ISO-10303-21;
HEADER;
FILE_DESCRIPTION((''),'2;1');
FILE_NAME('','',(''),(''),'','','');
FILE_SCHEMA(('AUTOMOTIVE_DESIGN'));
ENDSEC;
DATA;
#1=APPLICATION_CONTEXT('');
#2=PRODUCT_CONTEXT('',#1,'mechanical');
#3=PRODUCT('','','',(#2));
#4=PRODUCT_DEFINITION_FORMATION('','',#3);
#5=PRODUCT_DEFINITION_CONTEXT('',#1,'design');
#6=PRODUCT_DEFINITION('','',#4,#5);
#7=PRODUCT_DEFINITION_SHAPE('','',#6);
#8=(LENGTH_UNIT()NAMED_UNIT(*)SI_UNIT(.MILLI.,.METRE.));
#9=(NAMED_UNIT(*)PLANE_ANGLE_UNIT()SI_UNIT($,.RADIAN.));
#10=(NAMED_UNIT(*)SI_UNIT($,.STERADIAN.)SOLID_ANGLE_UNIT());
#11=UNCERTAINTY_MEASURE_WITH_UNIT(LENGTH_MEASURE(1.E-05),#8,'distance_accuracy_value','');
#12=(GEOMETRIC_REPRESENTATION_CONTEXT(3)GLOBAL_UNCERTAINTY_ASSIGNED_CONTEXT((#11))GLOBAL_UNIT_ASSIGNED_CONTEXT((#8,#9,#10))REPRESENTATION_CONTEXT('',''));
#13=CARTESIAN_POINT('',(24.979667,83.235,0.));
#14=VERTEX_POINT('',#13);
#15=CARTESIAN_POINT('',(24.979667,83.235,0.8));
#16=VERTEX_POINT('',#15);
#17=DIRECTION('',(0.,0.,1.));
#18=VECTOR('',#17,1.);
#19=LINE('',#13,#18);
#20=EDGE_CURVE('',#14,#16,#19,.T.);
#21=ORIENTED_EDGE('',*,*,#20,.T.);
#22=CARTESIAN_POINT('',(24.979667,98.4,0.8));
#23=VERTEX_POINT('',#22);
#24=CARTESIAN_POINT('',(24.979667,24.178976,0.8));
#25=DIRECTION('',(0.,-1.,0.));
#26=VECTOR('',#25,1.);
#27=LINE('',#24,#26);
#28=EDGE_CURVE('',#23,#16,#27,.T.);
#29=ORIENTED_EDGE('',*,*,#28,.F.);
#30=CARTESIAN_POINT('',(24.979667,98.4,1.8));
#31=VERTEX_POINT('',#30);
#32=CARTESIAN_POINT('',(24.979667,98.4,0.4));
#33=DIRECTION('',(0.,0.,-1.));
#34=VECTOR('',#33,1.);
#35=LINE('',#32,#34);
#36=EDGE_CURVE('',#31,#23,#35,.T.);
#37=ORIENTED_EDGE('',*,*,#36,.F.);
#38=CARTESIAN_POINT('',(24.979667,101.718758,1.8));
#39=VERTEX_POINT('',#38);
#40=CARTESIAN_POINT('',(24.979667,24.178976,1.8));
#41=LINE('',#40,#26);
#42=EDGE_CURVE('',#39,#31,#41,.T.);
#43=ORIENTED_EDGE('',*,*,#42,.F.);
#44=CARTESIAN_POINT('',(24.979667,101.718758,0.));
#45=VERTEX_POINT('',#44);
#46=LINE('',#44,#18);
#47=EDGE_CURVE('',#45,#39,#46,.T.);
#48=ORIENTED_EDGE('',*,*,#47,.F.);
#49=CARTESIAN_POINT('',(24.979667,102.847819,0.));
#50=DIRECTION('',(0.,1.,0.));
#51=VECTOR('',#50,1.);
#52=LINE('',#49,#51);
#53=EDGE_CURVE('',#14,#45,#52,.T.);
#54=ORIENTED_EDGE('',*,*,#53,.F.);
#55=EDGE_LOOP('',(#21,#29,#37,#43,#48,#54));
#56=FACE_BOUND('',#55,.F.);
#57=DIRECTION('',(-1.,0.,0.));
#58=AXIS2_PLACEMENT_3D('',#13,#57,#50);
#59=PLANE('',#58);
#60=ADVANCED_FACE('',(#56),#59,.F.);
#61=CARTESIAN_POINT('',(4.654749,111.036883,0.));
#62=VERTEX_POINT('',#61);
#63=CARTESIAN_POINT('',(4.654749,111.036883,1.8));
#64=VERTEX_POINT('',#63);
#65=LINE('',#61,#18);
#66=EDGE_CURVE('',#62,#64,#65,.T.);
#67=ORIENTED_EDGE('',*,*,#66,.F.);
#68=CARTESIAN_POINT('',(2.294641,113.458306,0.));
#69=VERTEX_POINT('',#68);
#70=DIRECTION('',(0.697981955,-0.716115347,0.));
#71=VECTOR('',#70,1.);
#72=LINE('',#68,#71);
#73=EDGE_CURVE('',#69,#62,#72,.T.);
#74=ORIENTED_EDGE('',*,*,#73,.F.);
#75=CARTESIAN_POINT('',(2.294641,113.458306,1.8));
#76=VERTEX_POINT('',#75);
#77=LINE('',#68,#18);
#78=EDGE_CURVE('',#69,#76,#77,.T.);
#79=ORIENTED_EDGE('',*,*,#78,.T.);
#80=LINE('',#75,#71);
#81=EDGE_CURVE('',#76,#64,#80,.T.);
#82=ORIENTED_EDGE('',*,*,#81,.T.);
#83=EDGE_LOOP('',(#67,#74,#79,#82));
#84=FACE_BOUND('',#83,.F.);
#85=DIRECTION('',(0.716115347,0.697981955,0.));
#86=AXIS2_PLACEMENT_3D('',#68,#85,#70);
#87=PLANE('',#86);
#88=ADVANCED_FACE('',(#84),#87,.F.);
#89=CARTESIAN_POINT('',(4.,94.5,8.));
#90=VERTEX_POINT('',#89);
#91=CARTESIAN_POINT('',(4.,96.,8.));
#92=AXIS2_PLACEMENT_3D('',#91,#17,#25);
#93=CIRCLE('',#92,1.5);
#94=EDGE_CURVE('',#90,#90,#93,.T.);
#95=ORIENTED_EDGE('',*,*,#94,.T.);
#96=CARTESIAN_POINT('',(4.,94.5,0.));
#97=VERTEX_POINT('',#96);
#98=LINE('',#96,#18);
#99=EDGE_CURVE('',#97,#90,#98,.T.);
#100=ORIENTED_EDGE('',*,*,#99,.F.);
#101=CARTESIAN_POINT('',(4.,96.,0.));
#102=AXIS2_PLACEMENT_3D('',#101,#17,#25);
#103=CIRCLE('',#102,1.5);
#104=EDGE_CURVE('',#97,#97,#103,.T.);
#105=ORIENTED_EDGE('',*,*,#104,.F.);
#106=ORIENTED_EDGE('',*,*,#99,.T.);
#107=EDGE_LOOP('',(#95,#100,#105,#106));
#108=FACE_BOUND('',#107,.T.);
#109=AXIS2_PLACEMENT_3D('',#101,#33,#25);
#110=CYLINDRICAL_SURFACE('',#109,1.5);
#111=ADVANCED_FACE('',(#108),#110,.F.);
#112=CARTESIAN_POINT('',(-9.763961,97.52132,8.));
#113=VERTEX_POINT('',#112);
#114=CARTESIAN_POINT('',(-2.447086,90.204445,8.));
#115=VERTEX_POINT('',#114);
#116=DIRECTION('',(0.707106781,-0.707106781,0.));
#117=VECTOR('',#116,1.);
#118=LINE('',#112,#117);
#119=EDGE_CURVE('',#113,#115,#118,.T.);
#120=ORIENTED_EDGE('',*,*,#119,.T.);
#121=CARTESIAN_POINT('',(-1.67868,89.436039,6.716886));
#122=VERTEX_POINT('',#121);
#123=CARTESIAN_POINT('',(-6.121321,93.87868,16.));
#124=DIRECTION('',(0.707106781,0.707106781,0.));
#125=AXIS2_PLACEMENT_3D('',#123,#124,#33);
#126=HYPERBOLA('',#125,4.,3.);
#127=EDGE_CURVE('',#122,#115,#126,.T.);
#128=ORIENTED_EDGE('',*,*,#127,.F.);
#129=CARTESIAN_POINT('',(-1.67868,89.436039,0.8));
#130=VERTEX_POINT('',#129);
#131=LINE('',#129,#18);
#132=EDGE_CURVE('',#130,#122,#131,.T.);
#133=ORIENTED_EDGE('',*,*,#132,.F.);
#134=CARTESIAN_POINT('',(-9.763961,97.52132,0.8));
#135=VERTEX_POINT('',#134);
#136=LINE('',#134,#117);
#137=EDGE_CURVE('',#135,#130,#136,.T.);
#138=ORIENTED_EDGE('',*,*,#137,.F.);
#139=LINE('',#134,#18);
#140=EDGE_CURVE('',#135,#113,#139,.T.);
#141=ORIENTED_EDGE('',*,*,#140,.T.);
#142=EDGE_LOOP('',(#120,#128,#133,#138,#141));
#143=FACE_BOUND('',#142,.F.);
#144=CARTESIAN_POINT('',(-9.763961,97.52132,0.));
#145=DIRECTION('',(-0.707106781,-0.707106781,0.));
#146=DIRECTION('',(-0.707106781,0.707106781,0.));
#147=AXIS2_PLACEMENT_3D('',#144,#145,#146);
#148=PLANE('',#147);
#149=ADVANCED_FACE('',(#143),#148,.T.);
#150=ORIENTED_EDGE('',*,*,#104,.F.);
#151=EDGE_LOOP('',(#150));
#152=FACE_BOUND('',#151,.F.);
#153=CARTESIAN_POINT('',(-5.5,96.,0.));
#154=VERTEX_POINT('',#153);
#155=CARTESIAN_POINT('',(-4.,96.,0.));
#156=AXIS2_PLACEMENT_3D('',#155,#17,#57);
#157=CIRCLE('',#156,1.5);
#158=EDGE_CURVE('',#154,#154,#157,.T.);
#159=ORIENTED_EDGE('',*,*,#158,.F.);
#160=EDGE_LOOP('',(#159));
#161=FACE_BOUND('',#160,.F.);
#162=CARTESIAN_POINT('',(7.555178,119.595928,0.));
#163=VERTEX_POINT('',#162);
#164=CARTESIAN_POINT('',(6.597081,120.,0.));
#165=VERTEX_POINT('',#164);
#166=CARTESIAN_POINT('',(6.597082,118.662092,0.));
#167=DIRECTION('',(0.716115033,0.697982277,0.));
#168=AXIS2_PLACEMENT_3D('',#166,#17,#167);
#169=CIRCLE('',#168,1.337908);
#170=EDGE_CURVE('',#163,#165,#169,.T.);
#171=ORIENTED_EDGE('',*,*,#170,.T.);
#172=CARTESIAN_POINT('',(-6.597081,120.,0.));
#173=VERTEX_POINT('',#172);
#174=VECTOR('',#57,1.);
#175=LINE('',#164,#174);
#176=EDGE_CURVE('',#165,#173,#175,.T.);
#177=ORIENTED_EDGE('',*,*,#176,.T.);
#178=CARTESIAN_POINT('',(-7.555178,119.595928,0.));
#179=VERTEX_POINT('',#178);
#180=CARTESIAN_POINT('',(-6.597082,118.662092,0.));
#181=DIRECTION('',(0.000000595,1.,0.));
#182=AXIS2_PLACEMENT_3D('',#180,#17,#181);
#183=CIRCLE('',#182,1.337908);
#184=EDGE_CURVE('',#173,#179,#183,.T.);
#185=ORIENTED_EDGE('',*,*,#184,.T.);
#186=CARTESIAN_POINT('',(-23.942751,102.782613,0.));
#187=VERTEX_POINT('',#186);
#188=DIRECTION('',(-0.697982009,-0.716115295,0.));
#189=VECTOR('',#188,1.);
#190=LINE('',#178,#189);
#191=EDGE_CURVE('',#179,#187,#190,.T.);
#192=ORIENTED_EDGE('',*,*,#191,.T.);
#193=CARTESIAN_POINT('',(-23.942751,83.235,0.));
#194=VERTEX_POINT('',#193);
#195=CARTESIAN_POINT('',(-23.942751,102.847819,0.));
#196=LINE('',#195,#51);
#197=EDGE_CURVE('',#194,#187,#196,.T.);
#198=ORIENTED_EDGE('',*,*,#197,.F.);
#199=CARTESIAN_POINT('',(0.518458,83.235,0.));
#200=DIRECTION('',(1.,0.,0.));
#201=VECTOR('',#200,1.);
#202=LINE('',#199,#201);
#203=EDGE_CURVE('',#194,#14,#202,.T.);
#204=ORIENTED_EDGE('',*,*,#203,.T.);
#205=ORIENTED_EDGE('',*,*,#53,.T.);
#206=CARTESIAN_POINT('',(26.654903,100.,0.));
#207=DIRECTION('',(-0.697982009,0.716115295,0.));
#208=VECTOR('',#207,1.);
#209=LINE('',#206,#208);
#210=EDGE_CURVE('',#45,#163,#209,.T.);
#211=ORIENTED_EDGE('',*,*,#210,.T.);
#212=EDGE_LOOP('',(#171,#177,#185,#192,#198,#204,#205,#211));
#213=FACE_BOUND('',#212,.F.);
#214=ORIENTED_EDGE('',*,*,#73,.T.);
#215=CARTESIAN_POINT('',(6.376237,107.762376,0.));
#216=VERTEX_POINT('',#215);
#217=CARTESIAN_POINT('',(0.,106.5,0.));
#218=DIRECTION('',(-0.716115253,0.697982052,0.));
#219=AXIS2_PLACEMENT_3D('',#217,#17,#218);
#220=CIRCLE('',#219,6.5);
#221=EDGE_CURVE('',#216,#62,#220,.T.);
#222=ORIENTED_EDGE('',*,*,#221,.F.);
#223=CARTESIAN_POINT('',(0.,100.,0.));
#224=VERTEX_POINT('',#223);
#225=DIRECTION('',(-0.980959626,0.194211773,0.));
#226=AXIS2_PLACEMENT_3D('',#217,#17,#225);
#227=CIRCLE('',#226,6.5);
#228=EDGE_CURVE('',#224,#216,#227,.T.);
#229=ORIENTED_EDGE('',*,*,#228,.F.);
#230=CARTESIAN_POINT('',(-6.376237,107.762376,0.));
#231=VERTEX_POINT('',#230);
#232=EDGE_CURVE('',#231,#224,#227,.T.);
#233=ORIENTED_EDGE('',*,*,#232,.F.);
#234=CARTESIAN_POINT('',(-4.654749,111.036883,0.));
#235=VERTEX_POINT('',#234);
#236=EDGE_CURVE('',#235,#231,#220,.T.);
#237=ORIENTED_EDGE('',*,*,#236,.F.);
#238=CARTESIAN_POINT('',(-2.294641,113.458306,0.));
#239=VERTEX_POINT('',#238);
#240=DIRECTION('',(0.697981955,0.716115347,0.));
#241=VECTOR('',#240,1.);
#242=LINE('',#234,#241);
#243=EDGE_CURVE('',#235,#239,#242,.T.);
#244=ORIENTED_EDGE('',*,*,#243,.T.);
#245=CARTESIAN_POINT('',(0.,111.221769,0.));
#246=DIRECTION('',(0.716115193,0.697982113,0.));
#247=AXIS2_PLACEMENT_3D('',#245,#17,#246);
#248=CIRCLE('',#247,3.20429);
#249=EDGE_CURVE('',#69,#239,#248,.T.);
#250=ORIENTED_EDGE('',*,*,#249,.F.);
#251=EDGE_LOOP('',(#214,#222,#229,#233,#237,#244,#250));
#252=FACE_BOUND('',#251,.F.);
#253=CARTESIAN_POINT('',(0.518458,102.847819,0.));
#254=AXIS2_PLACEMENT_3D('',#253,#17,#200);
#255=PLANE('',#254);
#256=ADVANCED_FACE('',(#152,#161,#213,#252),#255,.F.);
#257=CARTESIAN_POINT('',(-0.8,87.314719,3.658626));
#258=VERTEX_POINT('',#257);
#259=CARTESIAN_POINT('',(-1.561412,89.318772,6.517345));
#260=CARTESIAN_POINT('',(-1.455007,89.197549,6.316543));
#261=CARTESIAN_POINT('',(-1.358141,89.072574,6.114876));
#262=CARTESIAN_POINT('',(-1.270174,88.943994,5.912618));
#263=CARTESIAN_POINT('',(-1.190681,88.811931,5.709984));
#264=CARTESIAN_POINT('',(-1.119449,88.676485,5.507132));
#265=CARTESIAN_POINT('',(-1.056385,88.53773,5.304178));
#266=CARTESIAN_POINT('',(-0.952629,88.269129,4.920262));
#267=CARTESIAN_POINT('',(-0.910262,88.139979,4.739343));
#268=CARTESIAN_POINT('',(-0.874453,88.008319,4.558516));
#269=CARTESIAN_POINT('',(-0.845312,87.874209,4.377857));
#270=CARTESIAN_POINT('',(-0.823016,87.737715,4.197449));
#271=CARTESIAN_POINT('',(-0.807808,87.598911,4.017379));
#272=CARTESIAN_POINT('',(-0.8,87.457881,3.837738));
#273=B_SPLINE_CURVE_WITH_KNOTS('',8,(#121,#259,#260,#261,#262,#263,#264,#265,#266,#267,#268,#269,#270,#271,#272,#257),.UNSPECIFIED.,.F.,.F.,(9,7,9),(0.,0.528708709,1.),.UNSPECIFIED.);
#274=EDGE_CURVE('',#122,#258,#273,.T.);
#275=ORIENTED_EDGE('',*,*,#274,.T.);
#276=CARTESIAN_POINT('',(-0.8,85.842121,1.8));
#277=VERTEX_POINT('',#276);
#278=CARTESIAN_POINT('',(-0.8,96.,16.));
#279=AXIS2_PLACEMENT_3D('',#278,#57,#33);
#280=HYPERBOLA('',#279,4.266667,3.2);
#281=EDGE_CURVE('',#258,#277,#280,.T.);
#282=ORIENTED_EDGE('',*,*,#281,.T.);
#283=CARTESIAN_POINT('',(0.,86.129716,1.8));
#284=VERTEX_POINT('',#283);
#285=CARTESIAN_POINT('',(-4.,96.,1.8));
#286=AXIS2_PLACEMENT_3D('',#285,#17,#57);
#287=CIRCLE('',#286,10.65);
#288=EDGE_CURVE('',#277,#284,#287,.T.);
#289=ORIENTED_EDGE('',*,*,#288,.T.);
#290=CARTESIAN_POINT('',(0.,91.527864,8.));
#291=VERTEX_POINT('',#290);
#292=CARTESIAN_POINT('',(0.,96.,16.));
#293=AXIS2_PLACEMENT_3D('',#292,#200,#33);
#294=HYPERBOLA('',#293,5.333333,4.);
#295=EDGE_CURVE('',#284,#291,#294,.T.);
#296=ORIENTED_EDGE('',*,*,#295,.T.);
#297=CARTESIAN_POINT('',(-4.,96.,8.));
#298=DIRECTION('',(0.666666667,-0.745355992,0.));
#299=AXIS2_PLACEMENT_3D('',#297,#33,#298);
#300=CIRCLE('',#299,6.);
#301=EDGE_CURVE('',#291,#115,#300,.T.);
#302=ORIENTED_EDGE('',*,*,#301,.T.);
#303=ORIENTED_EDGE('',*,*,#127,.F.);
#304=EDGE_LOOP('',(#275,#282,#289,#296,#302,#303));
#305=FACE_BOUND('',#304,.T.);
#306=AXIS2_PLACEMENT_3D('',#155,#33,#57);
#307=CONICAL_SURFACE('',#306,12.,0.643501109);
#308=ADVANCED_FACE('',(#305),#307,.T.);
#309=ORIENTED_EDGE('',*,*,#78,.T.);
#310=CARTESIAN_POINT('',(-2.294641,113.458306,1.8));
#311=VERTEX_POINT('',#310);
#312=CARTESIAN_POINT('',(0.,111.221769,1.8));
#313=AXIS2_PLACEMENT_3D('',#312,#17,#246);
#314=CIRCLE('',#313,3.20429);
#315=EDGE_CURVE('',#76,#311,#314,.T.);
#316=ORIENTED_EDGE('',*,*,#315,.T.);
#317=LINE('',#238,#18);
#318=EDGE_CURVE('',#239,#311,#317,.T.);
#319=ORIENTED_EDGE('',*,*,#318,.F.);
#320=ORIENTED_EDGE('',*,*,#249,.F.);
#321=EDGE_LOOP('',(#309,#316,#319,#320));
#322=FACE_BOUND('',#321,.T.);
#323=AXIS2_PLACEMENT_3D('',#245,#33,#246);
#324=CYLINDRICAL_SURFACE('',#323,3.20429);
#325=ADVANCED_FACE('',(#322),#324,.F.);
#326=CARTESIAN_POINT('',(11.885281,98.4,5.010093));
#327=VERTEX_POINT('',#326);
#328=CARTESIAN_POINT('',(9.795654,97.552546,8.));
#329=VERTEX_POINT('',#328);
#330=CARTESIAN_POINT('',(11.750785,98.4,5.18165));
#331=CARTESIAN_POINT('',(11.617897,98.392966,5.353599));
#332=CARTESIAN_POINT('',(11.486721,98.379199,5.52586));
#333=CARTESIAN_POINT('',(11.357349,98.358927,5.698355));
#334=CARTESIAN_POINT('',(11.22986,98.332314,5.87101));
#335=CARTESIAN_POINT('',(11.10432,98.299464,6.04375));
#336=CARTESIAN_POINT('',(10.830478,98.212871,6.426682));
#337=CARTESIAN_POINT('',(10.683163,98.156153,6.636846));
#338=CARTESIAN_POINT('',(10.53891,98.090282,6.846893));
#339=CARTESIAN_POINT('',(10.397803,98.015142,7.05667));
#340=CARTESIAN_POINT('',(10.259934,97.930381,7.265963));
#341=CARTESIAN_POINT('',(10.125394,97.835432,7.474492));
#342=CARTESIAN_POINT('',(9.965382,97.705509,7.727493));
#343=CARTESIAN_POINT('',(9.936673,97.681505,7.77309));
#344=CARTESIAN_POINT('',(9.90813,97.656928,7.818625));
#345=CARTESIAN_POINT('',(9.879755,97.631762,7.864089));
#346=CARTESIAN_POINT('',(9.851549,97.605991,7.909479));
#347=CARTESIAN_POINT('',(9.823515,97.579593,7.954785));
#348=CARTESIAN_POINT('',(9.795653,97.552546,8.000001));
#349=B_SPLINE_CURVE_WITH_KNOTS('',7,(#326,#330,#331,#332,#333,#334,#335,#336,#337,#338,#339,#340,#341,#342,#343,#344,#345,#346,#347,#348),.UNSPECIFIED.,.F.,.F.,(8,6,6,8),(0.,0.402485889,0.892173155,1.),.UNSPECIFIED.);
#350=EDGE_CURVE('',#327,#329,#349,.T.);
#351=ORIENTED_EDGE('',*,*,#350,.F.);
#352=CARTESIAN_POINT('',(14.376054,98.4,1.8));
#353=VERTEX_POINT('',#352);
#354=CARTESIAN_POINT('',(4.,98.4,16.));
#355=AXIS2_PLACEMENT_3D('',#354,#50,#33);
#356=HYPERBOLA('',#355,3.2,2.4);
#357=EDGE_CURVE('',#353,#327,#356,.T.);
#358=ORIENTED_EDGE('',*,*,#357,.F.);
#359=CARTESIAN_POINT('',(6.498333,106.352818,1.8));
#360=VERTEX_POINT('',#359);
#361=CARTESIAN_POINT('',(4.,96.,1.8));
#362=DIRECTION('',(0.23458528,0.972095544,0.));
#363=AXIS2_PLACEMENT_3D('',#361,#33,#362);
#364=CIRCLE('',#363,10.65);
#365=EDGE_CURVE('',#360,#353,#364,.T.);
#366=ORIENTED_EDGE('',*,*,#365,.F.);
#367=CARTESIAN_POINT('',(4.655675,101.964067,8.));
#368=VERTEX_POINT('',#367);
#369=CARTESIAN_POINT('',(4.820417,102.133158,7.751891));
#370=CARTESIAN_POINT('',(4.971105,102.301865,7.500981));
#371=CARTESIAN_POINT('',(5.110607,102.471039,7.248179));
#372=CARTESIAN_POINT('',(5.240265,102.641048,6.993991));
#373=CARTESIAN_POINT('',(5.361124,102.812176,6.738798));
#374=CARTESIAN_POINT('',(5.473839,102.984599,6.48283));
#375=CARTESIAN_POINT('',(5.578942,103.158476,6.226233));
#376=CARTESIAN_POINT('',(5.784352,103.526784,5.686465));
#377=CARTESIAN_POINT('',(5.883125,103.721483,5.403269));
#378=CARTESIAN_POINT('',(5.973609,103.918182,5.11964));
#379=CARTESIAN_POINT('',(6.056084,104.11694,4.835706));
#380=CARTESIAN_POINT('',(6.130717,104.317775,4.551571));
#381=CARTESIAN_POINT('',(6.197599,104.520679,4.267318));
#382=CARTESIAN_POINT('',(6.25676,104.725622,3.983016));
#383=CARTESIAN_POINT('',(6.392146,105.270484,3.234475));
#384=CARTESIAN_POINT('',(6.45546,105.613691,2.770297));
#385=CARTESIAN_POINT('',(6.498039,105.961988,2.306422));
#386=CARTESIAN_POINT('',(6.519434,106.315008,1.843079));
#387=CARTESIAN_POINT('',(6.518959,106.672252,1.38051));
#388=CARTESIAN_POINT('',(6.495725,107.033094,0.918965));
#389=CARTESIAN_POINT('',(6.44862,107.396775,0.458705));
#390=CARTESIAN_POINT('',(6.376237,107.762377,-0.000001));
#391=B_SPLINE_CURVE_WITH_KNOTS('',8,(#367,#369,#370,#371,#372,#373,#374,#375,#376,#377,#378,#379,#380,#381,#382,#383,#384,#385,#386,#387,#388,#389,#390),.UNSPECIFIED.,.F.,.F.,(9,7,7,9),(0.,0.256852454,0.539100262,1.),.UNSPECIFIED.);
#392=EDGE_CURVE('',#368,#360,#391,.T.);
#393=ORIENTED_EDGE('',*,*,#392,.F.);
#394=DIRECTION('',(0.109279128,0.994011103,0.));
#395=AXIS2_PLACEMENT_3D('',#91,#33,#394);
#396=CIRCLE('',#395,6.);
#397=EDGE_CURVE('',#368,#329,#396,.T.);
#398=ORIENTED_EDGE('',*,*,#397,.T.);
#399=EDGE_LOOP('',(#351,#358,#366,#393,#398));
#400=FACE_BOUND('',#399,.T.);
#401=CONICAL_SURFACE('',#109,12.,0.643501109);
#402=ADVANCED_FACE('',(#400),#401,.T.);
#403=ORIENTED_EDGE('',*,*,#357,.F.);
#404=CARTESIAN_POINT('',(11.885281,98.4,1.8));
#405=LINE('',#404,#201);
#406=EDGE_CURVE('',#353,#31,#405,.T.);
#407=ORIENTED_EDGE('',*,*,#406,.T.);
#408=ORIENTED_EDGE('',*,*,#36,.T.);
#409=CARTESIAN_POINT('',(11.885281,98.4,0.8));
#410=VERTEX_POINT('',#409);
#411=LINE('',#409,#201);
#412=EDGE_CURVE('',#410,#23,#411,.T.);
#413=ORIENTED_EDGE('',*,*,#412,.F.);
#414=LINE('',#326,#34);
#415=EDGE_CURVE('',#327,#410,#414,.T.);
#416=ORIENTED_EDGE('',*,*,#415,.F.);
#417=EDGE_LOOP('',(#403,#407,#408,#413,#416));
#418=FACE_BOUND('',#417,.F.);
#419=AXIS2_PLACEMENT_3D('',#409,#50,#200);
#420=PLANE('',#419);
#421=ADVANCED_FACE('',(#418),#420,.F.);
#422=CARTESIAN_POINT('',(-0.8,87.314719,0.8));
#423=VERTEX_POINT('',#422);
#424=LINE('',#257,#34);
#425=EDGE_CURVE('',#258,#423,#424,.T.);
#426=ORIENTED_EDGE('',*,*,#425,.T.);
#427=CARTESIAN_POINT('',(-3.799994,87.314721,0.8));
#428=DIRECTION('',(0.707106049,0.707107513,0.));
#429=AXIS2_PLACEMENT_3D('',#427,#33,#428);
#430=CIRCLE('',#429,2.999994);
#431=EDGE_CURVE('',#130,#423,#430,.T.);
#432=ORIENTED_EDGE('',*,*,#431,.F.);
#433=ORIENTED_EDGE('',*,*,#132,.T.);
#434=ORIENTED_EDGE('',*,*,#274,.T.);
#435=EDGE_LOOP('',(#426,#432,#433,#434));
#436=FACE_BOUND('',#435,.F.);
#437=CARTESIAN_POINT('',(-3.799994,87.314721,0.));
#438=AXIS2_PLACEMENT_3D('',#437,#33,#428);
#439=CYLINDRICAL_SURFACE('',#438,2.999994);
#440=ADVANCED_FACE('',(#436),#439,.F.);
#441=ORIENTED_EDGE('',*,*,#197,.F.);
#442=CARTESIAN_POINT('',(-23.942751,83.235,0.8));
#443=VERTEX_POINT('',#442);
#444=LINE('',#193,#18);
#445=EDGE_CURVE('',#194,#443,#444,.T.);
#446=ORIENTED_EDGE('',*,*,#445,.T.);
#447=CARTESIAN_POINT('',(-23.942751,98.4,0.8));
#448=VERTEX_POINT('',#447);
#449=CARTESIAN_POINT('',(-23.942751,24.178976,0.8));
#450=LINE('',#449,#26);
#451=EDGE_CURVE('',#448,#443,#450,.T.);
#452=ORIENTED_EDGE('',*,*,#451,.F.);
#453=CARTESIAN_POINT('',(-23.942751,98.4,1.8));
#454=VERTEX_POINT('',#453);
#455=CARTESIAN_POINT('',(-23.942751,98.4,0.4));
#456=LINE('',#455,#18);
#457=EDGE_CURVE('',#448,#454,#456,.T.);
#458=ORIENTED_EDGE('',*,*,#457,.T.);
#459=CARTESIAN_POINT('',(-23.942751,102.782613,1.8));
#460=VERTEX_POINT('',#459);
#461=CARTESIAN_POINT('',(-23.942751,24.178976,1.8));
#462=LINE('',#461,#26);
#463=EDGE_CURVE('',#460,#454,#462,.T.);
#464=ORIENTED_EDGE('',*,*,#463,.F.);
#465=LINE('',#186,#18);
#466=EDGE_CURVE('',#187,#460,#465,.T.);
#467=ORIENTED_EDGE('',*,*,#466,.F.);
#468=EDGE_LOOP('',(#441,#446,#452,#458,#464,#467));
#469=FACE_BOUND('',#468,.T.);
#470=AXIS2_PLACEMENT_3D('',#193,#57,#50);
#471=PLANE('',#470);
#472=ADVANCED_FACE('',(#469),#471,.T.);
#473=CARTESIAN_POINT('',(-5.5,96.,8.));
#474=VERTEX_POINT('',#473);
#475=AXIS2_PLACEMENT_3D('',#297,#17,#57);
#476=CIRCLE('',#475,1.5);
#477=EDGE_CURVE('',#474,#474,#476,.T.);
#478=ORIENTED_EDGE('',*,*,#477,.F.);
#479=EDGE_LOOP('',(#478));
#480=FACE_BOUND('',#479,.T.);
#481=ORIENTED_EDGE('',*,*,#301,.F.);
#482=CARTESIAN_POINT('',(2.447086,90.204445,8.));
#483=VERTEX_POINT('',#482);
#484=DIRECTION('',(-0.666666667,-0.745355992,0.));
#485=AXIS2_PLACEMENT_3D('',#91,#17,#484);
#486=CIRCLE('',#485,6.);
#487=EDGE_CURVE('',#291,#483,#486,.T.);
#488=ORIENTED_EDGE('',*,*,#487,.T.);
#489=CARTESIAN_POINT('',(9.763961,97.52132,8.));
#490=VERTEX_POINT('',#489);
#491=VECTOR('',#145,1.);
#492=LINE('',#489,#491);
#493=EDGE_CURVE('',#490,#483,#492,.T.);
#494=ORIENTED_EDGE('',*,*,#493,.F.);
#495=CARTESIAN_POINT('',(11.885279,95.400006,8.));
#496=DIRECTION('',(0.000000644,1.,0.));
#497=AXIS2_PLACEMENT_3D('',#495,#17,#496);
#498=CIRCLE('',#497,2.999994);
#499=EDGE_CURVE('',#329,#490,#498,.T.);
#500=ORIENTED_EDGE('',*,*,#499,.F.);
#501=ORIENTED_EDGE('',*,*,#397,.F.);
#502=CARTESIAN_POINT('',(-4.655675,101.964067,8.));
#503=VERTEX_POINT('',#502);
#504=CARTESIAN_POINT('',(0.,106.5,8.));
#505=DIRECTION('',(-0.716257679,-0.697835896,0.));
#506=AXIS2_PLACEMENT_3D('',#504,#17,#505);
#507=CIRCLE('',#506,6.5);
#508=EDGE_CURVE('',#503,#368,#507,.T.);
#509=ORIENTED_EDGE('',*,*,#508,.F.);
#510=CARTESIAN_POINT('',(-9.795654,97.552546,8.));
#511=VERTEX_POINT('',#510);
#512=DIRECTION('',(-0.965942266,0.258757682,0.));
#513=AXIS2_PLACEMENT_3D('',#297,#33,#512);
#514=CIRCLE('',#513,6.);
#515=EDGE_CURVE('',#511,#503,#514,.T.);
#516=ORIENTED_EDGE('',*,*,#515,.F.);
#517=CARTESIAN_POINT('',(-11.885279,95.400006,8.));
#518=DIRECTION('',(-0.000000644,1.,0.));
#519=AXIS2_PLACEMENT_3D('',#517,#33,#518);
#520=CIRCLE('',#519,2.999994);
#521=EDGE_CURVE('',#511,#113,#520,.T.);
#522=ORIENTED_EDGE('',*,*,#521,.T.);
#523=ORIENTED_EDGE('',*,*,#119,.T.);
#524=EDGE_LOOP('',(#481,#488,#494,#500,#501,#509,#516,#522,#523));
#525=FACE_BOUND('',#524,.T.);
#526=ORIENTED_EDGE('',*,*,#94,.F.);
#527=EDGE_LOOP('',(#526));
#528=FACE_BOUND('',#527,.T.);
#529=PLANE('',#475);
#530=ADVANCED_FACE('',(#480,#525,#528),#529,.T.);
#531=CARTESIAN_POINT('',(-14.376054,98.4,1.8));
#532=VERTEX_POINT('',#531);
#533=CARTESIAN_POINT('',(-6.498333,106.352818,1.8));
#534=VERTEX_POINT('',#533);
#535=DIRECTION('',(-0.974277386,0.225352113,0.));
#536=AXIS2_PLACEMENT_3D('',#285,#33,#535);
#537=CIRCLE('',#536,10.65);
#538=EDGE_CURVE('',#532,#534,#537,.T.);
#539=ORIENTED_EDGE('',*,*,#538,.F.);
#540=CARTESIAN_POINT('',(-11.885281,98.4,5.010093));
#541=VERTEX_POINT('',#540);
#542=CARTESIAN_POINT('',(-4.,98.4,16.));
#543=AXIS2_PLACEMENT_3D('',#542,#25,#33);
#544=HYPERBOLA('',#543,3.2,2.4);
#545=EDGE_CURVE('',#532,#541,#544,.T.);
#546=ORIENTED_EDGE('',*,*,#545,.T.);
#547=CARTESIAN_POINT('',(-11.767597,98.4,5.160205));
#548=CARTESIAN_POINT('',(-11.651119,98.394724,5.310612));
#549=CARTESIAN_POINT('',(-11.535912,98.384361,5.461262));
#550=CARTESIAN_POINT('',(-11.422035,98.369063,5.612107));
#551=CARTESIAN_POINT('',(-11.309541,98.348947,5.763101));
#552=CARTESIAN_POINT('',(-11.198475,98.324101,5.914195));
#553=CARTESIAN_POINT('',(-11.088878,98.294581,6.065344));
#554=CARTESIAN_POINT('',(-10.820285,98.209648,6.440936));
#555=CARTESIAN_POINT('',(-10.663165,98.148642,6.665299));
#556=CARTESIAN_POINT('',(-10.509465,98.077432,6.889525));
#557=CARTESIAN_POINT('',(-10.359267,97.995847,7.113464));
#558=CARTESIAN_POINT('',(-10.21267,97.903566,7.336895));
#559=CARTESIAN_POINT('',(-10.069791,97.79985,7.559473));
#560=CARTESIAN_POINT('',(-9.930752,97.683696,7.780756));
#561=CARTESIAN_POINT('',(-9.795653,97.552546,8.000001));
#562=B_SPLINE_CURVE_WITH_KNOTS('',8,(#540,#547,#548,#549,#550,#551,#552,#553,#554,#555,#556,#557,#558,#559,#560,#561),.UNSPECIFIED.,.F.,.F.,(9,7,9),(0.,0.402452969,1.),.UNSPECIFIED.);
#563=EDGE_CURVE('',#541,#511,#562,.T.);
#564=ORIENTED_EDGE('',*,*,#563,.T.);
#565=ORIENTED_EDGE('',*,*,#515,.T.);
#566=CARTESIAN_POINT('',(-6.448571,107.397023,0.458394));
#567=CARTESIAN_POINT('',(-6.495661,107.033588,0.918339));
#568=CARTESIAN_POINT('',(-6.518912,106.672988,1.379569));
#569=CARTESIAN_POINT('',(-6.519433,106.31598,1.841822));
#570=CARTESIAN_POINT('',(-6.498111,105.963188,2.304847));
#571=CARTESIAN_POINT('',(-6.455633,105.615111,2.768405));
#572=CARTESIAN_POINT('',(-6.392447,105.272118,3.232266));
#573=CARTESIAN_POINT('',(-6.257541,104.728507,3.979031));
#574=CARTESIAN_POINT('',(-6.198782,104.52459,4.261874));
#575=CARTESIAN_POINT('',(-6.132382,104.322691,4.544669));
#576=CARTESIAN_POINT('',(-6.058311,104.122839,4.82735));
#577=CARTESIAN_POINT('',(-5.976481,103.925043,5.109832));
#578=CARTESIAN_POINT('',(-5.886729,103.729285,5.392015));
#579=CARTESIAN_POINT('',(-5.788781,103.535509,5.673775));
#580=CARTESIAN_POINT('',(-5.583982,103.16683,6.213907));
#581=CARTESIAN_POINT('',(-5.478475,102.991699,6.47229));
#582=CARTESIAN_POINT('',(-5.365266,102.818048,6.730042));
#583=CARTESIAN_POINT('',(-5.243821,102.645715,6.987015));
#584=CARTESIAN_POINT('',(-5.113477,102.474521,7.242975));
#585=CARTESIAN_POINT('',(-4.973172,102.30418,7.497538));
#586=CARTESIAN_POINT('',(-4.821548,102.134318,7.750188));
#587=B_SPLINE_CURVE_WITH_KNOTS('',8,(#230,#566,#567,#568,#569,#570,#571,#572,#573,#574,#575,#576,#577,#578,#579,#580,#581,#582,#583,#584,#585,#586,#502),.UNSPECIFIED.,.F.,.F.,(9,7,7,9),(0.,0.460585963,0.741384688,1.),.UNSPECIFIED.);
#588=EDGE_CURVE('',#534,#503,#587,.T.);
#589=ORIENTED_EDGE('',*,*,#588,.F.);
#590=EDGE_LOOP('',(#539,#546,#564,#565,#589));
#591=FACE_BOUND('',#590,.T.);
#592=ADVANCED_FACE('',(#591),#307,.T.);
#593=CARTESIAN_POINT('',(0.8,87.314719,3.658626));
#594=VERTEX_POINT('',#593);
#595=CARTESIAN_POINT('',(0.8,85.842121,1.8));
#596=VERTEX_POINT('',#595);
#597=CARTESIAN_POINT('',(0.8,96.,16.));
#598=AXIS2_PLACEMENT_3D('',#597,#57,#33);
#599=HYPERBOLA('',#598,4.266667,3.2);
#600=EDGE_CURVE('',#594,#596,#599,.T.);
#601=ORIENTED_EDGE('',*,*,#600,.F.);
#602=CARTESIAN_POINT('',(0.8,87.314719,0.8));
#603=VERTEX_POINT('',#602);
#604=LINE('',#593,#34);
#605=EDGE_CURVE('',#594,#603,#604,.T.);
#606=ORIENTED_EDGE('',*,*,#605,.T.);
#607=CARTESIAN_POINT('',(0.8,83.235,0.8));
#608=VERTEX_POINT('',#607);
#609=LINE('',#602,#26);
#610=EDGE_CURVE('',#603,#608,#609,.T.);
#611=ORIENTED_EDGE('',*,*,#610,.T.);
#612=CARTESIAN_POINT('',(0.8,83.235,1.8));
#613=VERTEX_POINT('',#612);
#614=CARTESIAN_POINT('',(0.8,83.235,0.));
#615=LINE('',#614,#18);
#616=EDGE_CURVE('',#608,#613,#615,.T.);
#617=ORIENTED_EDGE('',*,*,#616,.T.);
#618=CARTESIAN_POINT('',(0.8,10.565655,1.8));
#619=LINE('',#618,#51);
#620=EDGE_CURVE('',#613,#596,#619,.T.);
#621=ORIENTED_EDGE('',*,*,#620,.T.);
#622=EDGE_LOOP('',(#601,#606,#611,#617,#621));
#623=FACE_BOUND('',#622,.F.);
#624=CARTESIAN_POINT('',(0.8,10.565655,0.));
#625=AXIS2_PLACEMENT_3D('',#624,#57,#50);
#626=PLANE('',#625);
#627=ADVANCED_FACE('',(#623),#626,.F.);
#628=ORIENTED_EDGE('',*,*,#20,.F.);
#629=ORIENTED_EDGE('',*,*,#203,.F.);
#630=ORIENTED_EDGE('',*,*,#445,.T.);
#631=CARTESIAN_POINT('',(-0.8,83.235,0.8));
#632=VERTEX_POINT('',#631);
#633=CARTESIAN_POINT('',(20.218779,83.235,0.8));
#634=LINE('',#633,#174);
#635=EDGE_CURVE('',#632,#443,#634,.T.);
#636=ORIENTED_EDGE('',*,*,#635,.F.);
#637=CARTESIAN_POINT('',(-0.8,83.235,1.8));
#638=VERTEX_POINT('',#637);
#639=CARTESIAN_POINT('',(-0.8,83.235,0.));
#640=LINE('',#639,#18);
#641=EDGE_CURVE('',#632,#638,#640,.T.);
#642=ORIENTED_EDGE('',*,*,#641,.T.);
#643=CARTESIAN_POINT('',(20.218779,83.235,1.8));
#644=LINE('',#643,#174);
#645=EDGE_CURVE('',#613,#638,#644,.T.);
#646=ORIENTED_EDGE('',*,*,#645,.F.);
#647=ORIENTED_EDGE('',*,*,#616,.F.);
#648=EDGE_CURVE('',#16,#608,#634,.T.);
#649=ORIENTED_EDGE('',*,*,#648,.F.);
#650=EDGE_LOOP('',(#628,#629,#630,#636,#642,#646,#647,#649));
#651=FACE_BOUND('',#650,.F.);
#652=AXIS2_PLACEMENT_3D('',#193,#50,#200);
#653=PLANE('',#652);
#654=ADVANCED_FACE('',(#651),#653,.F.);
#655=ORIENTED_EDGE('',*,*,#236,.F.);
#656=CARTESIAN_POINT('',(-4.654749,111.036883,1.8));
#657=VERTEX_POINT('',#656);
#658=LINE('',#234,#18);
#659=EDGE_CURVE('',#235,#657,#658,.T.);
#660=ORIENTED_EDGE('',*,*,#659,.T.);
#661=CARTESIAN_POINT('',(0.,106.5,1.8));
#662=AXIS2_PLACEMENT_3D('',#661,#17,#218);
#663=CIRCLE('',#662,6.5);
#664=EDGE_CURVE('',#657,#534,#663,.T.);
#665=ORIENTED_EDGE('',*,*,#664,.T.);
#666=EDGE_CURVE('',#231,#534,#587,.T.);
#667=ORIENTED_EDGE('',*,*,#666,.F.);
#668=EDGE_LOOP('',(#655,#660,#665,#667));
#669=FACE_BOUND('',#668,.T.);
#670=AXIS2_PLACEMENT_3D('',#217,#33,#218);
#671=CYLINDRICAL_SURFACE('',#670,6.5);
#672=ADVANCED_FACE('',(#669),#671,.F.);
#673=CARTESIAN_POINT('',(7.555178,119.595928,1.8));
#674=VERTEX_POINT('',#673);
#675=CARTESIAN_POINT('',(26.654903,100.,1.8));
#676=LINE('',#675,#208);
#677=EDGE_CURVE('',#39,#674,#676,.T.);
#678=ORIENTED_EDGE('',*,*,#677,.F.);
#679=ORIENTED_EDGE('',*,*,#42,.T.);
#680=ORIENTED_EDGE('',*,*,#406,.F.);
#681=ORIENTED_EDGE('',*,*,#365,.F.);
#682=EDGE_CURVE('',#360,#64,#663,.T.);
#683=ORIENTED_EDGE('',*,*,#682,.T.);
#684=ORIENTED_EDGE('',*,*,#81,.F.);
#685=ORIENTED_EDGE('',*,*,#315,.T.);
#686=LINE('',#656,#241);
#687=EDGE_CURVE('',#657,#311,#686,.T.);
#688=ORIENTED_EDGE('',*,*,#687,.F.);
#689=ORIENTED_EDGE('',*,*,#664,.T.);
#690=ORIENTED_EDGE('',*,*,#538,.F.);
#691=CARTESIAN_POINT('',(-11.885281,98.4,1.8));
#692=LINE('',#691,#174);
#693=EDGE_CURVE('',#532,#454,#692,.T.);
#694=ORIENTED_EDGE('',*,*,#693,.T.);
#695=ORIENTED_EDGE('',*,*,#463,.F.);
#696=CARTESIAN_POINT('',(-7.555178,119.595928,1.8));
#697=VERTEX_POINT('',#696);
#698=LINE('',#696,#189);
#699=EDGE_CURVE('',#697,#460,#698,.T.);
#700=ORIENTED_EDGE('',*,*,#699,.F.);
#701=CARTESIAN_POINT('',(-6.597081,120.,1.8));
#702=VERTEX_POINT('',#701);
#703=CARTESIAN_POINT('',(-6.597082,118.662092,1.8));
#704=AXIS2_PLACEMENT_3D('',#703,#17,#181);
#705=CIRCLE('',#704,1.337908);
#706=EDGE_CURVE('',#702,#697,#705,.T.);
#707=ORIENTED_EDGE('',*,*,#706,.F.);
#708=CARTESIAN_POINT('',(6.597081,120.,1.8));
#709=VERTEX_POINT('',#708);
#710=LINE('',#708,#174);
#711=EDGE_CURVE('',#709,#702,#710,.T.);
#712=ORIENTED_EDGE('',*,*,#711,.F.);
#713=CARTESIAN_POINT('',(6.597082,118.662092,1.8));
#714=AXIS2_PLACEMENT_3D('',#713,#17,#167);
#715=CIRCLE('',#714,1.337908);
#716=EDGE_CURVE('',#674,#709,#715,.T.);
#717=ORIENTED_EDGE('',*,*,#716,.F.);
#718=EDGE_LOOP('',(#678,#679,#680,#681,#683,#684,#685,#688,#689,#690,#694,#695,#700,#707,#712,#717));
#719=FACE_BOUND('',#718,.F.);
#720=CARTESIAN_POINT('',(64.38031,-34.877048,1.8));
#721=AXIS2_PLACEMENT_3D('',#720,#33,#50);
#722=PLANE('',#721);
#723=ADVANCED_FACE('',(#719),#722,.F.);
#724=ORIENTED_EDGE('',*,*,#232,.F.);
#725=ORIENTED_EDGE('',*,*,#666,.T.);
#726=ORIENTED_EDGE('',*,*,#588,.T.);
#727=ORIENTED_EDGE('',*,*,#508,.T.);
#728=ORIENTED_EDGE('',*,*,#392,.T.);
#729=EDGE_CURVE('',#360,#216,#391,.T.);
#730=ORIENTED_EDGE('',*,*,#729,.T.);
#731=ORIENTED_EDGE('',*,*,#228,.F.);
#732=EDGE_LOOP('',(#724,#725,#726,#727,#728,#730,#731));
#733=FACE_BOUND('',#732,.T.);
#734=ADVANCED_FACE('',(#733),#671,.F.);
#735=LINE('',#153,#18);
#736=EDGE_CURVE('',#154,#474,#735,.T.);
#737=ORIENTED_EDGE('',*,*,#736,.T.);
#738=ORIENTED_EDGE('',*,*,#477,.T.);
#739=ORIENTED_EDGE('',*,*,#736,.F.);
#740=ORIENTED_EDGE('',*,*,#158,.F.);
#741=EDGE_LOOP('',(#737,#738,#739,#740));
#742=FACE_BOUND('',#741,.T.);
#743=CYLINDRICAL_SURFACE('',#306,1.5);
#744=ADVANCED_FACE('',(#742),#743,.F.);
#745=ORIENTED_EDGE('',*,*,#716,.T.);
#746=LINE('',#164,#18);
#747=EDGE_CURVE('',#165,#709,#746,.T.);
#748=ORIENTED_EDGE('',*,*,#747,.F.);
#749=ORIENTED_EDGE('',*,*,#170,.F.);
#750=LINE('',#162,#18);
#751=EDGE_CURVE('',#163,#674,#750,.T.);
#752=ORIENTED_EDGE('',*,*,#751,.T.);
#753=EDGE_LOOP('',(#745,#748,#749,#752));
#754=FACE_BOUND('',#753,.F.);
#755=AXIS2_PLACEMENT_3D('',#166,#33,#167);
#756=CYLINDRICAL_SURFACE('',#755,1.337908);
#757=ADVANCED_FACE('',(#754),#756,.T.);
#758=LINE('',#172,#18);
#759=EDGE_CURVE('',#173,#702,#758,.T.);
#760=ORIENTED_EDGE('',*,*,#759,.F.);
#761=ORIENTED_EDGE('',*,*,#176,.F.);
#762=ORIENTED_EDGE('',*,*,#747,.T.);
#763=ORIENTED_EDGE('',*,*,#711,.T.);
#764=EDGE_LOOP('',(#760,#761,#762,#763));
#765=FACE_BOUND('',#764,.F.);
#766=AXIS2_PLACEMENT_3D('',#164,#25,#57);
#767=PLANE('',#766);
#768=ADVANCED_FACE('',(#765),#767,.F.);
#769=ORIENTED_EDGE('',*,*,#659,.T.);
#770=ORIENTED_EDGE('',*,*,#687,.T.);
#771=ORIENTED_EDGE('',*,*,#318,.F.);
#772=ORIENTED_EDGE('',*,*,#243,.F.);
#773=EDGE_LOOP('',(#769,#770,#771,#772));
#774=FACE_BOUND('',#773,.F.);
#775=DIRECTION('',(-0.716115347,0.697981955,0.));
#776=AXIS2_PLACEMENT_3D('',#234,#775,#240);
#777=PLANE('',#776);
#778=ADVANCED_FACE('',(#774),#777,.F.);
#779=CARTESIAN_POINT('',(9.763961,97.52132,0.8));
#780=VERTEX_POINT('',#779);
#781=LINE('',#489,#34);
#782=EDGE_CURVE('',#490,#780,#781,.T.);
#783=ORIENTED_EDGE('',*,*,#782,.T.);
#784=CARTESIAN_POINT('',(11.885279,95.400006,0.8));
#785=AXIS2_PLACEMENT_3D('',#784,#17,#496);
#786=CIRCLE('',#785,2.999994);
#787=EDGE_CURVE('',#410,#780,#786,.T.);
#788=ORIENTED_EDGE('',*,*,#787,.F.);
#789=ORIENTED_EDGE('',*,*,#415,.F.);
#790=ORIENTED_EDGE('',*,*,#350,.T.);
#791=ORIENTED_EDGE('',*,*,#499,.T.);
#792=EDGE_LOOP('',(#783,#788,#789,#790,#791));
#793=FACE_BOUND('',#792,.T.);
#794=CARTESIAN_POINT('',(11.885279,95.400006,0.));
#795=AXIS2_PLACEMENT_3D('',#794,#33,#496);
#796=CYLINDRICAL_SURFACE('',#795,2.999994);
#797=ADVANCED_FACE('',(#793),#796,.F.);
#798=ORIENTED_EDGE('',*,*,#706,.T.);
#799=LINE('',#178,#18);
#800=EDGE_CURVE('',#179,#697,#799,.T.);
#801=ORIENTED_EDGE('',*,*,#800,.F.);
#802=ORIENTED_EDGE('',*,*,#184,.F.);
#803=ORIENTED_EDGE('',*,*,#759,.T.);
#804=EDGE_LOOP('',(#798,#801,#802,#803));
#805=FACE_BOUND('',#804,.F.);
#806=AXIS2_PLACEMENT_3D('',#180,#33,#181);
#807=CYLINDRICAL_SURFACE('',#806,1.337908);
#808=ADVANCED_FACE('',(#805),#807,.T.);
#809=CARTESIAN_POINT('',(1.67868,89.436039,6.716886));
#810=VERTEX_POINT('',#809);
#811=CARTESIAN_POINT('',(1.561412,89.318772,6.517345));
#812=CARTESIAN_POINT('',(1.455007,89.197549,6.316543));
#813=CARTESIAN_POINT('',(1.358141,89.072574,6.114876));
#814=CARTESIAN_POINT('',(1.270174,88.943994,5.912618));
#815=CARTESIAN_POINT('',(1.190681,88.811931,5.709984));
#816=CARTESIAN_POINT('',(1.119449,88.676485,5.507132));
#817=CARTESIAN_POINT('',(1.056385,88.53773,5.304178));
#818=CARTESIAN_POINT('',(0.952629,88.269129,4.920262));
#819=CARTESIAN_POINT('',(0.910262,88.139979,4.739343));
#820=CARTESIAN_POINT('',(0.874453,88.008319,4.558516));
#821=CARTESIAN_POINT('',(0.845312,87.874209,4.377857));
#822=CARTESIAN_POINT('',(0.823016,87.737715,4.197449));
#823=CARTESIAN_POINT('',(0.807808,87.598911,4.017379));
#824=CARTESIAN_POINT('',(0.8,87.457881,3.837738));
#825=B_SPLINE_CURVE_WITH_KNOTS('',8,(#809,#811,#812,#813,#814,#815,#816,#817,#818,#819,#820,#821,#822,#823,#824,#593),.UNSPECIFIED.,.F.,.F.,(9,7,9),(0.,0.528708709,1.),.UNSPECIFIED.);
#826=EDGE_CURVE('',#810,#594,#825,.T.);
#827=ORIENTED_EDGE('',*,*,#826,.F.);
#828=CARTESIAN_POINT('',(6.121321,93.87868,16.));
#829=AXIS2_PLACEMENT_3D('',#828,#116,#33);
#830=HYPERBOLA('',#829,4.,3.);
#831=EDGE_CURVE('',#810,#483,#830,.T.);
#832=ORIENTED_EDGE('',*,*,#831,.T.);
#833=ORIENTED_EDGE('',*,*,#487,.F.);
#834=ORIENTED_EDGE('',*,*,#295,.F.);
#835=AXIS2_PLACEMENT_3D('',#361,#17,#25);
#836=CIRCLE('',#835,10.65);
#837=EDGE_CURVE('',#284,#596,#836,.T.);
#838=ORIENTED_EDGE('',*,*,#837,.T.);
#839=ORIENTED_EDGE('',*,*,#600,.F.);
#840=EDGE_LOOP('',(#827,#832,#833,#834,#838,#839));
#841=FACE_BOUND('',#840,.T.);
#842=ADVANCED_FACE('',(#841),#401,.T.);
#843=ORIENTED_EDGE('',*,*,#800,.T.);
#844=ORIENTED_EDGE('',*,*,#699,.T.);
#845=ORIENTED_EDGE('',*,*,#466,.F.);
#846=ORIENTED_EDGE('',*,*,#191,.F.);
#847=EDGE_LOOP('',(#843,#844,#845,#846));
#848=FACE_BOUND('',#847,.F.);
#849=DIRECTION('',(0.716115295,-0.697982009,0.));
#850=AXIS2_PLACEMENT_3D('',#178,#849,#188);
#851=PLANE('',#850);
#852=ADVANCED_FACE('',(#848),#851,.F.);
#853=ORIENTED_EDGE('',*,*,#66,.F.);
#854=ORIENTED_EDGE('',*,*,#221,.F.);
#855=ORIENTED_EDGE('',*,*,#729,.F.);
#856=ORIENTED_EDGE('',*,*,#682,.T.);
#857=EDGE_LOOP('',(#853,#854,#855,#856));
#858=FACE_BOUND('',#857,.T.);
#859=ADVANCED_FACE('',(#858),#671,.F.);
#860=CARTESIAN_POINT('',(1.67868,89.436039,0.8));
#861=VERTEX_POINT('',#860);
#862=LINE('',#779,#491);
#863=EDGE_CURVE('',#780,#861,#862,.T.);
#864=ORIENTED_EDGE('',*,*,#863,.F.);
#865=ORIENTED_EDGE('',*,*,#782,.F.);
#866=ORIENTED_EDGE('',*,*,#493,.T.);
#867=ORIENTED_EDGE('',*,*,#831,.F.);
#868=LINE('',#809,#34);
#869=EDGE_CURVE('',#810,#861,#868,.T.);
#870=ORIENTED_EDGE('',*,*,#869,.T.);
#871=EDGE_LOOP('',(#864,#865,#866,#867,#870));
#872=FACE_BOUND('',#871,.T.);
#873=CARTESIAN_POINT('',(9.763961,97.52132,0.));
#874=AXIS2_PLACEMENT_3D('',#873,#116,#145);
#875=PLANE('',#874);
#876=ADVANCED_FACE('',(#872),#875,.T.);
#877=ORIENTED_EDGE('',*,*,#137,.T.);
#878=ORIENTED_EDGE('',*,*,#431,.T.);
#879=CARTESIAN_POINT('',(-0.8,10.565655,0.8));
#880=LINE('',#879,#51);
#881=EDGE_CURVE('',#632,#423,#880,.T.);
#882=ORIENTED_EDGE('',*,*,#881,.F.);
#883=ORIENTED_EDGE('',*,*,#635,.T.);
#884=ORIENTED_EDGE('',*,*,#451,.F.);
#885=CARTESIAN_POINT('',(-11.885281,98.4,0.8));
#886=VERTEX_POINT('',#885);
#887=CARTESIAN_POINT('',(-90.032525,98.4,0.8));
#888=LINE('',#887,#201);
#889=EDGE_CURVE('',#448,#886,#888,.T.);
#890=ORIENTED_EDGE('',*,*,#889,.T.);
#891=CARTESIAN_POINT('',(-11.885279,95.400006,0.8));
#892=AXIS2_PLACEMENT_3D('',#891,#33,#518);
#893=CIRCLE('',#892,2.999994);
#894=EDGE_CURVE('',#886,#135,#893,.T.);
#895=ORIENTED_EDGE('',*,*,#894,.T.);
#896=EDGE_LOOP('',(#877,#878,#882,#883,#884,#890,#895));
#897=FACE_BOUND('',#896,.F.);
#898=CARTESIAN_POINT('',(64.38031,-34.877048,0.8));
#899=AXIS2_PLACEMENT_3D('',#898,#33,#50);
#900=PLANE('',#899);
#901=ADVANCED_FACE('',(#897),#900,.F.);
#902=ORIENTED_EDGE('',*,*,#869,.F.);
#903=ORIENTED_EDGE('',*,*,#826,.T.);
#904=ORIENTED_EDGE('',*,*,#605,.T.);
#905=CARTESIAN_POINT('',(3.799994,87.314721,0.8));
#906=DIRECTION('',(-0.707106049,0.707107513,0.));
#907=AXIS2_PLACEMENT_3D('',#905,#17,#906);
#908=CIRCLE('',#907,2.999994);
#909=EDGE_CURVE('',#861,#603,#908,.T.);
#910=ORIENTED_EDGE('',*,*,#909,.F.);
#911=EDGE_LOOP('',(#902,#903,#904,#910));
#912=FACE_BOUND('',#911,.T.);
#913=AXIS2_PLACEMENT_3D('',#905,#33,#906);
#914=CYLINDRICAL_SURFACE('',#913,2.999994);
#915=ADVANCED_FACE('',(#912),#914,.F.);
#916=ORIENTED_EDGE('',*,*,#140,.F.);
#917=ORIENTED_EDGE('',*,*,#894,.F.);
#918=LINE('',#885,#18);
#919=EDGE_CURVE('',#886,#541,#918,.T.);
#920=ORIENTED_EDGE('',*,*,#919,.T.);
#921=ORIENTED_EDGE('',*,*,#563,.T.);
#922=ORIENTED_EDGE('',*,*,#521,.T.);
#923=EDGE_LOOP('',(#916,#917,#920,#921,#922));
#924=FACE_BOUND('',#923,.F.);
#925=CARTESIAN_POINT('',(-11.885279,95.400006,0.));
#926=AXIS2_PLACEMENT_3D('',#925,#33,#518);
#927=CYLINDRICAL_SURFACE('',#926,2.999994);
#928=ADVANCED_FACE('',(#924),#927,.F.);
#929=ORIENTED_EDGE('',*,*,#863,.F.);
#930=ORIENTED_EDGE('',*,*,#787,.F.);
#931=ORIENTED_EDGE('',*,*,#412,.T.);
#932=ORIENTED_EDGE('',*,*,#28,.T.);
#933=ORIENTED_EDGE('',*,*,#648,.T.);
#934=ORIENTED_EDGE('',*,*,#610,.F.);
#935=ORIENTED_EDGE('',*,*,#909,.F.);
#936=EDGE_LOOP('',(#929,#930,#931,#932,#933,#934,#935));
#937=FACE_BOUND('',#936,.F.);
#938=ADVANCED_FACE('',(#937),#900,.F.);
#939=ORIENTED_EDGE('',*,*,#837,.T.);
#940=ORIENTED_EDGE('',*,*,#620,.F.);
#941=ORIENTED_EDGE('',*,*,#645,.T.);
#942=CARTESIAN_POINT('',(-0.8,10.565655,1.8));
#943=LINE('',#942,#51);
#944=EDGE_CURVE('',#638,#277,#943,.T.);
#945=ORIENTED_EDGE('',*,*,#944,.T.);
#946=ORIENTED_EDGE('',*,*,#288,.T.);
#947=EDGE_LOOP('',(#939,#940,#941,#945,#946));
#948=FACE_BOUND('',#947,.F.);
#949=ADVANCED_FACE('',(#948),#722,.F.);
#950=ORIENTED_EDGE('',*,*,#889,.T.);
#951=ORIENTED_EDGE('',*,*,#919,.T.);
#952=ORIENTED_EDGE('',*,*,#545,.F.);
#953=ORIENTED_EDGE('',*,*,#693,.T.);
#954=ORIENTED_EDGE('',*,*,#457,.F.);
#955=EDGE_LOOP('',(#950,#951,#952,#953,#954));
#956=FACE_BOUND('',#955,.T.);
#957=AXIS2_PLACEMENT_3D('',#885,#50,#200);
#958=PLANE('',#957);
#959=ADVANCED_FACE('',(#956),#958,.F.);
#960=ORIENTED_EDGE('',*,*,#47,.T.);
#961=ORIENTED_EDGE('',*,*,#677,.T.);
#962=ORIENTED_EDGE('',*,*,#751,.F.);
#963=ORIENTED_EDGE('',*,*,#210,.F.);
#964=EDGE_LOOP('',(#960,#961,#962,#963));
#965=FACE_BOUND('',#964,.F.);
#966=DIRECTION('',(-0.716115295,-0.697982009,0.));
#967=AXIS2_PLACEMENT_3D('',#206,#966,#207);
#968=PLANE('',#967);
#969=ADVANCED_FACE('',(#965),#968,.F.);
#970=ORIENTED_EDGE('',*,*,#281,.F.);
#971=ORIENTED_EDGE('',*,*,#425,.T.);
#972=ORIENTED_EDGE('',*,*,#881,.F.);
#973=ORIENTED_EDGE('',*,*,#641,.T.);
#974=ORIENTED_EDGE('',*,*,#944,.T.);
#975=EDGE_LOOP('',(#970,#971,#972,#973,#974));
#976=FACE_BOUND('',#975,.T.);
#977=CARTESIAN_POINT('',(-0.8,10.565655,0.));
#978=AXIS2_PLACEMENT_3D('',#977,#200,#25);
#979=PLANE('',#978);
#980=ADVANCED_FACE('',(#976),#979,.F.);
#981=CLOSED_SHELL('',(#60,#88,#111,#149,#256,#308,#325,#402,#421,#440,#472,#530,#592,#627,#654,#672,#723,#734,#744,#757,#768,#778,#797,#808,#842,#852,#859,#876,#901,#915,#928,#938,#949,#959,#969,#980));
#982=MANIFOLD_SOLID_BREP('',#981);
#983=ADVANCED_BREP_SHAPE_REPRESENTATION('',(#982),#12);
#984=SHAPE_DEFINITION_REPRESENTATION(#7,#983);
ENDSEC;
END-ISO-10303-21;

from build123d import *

# Parameters (mm, degrees)
CYLINDER_R       = 1.5
CYLINDER_DEPTH   = 8
ARRAY001_COUNT   = 4
ARRAY004_COUNT   = 4
EXTRUDE003_DEPTH = 1.8
EXTRUDE002_DEPTH = 0.8
ARRAY006_COUNT   = 4
EXTRUDE_DEPTH    = 1
ARRAY002_COUNT   = 4
EXTRUDE006_DEPTH = 1.8
EXTRUDE004_DEPTH = 10
EXTRUDE001_DEPTH = 8
ARRAY005_COUNT   = 4
ARRAY_COUNT      = 4
ARRAY003_COUNT   = 4
SKETCH003_W      = 48.922418
SKETCH003_H      = 39.225639
EXTRUDE005_DEPTH = 10


with BuildPart() as holes:
    # Cylinder → Cylinder (new body)
    with BuildSketch(Plane(origin=(4, 4, 0), x_dir=(1, 0, 0), z_dir=(0, 0, 1))):
        Circle(CYLINDER_R)
    extrude(amount=CYLINDER_DEPTH)

    # Array001: holes ×4 about axis
    array001_axis = Axis((50, 50, 0), (0, 0, 1))


with BuildPart() as holes_1:
    add(holes.part)
    for i in range(1, ARRAY001_COUNT):
        add(holes.part.rotate(array001_axis, i * 360 / ARRAY001_COUNT))

    # Array004: holes ×4 about axis
    array004_axis = Axis((0, 0, 0), (0, 0, 1))


with BuildPart() as holes_2:
    add(holes_1.part)
    for i in range(1, ARRAY004_COUNT):
        add(holes_1.part.rotate(array004_axis, i * 360 / ARRAY004_COUNT))


with BuildPart() as top_hook:
    # Sketch002 → Extrude003 (new body)
    with BuildSketch(Plane.XY):
        with BuildLine():
            Line((26.654903, 100), (7.555178, 119.595928))
            ThreePointArc((7.555178, 119.595928), (7.116991, 119.89485), (6.597081, 120))
            Line((6.597081, 120), (0, 120))
            Line((-6.597081, 120), (0, 120))
            ThreePointArc((-6.597081, 120), (-7.116991, 119.89485), (-7.555178, 119.595928))
            Line((-7.555178, 119.595928), (-26.654903, 100))
            Line((-26.654903, 100), (0, 100))
            Line((0, 100), (26.654903, 100))
        make_face()
        with BuildLine():
            ThreePointArc((-4.654749, 111.036883), (0, 100), (4.654749, 111.036883))
            Line((2.294641, 113.458306), (4.654749, 111.036883))
            ThreePointArc((2.294641, 113.458306), (0, 114.426059), (-2.294641, 113.458306))
            Line((-4.654749, 111.036883), (-2.294641, 113.458306))
        make_face(mode=Mode.SUBTRACT)
    extrude(amount=EXTRUDE003_DEPTH)


with BuildPart() as extrude002:
    # Sketch001 → Extrude002 (new body)
    with BuildSketch(Plane.XY):
        with BuildLine():
            Line((0, 100), (96, 100))
            ThreePointArc((98.828427, 98.828427), (97.530734, 99.695518), (96, 100))
            Line((96, 96), (98.828427, 98.828427))
            Line((4, 4), (96, 96))
            Line((0, 0), (4, 4))
            Line((0, 0), (0, 100))
        make_face()
    extrude(amount=EXTRUDE002_DEPTH)


with BuildPart() as bottom_plate:
    # Part__Mirroring002: instance of Extrude002
    add(extrude002.part.mirror(Plane(origin=(0, 0, 0), x_dir=(1, 0, 0), z_dir=(0, 1, 0))))

    # Fusion003: union Extrude002
    add(extrude002.part)

    # Array006: bottom_plate ×4 about axis
    array006_axis = Axis((0, 0, 0), (0, 0, 1))


with BuildPart() as bottom_plate_1:
    add(bottom_plate.part)
    for i in range(1, ARRAY006_COUNT):
        add(bottom_plate.part.rotate(array006_axis, i * 360 / ARRAY006_COUNT))


with BuildPart() as extrude_body:
    # Sketch → Extrude (new body)
    with BuildSketch(Plane.XY):
        with BuildLine():
            Line((0, 100), (96, 100))
            ThreePointArc((98.828427, 98.828427), (97.530734, 99.695518), (96, 100))
            Line((96, 96), (98.828427, 98.828427))
            Line((4, 4), (96, 96))
            Line((0, 0), (4, 4))
            Line((0, 0), (0, 100))
        make_face()
        with BuildLine():
            Line((0.8, 10.565655), (0.8, 87.314719))
            ThreePointArc((1.67868, 89.436039), (1.028361, 88.462769), (0.8, 87.314719))
            Line((9.763961, 97.52132), (1.67868, 89.436039))
            ThreePointArc((11.885281, 98.4), (10.737231, 98.171639), (9.763961, 97.52132))
            Line((11.885281, 98.4), (90.032525, 98.4))
            ThreePointArc((92.151931, 93.283302), (92.801662, 96.549722), (90.032525, 98.4))
            Line((6.905361, 8.036732), (92.151931, 93.283302))
            ThreePointArc((0.8, 10.565655), (3.007794, 7.261458), (6.905361, 8.036732))
        make_face(mode=Mode.SUBTRACT)
    extrude(amount=EXTRUDE_DEPTH)


with BuildPart() as extrude_body_1:
    # Extrude placement: moved
    add(extrude_body.part.moved(Location((0, 0, 0.8))))


with BuildPart() as fusion002:
    # Part__Mirroring: instance of Extrude body
    add(extrude_body_1.part.mirror(Plane(origin=(0, 0, 0), x_dir=(1, 0, 0), z_dir=(0, 1, 0))))

    # Fusion: union Extrude body
    add(extrude_body_1.part)

    # Array002: Fusion002 ×4 about axis
    array002_axis = Axis((0, 0, 0), (0, 0, 1))


with BuildPart() as fusion002_1:
    add(fusion002.part)
    for i in range(1, ARRAY002_COUNT):
        add(fusion002.part.rotate(array002_axis, i * 360 / ARRAY002_COUNT))

    # Fusion002: union bottom_plate
    add(bottom_plate_1.part)


with BuildPart() as extrude006:
    # Sketch004 → Extrude006 (new body)
    with BuildSketch(Plane.XY):
        with BuildLine():
            Line((-65.833333, 100), (-50, 100))
            Line((-50, 100), (-50, 120))
            Line((-71.666667, 120), (-50, 120))
            ThreePointArc((-71.666667, 120), (-75, 116.666667), (-71.666667, 113.333333))
            Line((-65.833333, 113.333333), (-71.666667, 113.333333))
            ThreePointArc((-62.5, 110), (-63.476311, 112.357023), (-65.833333, 113.333333))
            Line((-62.5, 103.333333), (-62.5, 110))
            ThreePointArc((-65.833333, 100), (-63.476311, 100.976311), (-62.5, 103.333333))
        make_face()
    extrude(amount=EXTRUDE006_DEPTH)


with BuildPart() as part_mirroring003:
    # Part__Mirroring003: instance of Extrude006
    add(extrude006.part.mirror(Plane(origin=(-50, 0, 0), x_dir=(0, -1, 0), z_dir=(1, 0, 0))))


with BuildPart() as cable_hook:
    # Fusion006 base: copy of Extrude006
    add(extrude006.part)

    # Fusion006: union Part__Mirroring003
    add(part_mirroring003.part)


with BuildPart() as hook_zone:
    # Sketch002 → Extrude004 (new body)
    with BuildSketch(Plane.XY):
        with BuildLine():
            Line((26.654903, 100), (7.555178, 119.595928))
            ThreePointArc((7.555178, 119.595928), (7.116991, 119.89485), (6.597081, 120))
            Line((6.597081, 120), (0, 120))
            Line((-6.597081, 120), (0, 120))
            ThreePointArc((-6.597081, 120), (-7.116991, 119.89485), (-7.555178, 119.595928))
            Line((-7.555178, 119.595928), (-26.654903, 100))
            Line((-26.654903, 100), (0, 100))
            Line((0, 100), (26.654903, 100))
        make_face()
        with BuildLine():
            ThreePointArc((-4.654749, 111.036883), (0, 100), (4.654749, 111.036883))
            Line((2.294641, 113.458306), (4.654749, 111.036883))
            ThreePointArc((2.294641, 113.458306), (0, 114.426059), (-2.294641, 113.458306))
            Line((-4.654749, 111.036883), (-2.294641, 113.458306))
        make_face(mode=Mode.SUBTRACT)
    extrude(amount=EXTRUDE004_DEPTH)


with BuildPart() as extrude001:
    # Sketch → Extrude001 (new body)
    with BuildSketch(Plane.XY):
        with BuildLine():
            Line((0, 100), (96, 100))
            ThreePointArc((98.828427, 98.828427), (97.530734, 99.695518), (96, 100))
            Line((96, 96), (98.828427, 98.828427))
            Line((4, 4), (96, 96))
            Line((0, 0), (4, 4))
            Line((0, 0), (0, 100))
        make_face()
        with BuildLine():
            Line((0.8, 10.565655), (0.8, 87.314719))
            ThreePointArc((1.67868, 89.436039), (1.028361, 88.462769), (0.8, 87.314719))
            Line((9.763961, 97.52132), (1.67868, 89.436039))
            ThreePointArc((11.885281, 98.4), (10.737231, 98.171639), (9.763961, 97.52132))
            Line((11.885281, 98.4), (90.032525, 98.4))
            ThreePointArc((92.151931, 93.283302), (92.801662, 96.549722), (90.032525, 98.4))
            Line((6.905361, 8.036732), (92.151931, 93.283302))
            ThreePointArc((0.8, 10.565655), (3.007794, 7.261458), (6.905361, 8.036732))
        make_face(mode=Mode.SUBTRACT)
    extrude(amount=EXTRUDE001_DEPTH)


with BuildPart() as zone_to_cut:
    # Part__Mirroring001: instance of Extrude001
    add(extrude001.part.mirror(Plane(origin=(0, 0, 0), x_dir=(1, 0, 0), z_dir=(0, 1, 0))))

    # Fusion001: union Extrude001
    add(extrude001.part)

    # Array005: zone_to_cut ×4 about axis
    array005_axis = Axis((0, 0, 0), (0, 0, 1))


with BuildPart() as zone_to_cut_1:
    add(zone_to_cut.part)
    for i in range(1, ARRAY005_COUNT):
        add(zone_to_cut.part.rotate(array005_axis, i * 360 / ARRAY005_COUNT))

    # Fusion004: union hook_zone
    add(hook_zone.part)


with BuildPart() as cut:
    # Cone → Cone (revolve)
    with BuildSketch(Plane(origin=(4, 4, 0), x_dir=(1, 0, 0), z_dir=(0, -1, 0))):
        Polygon((0, 0), (12, 0), (6, 8), (0, 8), align=None)
    revolve(axis=Axis((4, 4, 0), (0, 0, 1)))

    # Array: Cut ×4 about axis
    array_axis = Axis((50, 50, 0), (0, 0, 1))


with BuildPart() as cut_1:
    add(cut.part)
    for i in range(1, ARRAY_COUNT):
        add(cut.part.rotate(array_axis, i * 360 / ARRAY_COUNT))

    # Array003: Cut ×4 about axis
    array003_axis = Axis((0, 0, 0), (0, 0, 1))


with BuildPart() as cut_2:
    add(cut_1.part)
    for i in range(1, ARRAY003_COUNT):
        add(cut_1.part.rotate(array003_axis, i * 360 / ARRAY003_COUNT))

    # Common001: intersect zone_to_cut
    add(zone_to_cut_1.part, mode=Mode.INTERSECT)

    # Fusion005: union top_hook, Fusion002, cable_hook
    add(top_hook.part)
    add(fusion002_1.part)
    add(cable_hook.part)

    # Cut: cut holes
    add(holes_2.part, mode=Mode.SUBTRACT)


with BuildPart() as test_print:
    # Sketch003 → Extrude005 (new body)
    with BuildSketch(Plane.XY):
        with Locations((0.518458, 102.847819)):
            Rectangle(SKETCH003_W, SKETCH003_H)
    extrude(amount=EXTRUDE005_DEPTH)

    # Common: intersect Cut
    add(cut_2.part, mode=Mode.INTERSECT)


solid = test_print.part
